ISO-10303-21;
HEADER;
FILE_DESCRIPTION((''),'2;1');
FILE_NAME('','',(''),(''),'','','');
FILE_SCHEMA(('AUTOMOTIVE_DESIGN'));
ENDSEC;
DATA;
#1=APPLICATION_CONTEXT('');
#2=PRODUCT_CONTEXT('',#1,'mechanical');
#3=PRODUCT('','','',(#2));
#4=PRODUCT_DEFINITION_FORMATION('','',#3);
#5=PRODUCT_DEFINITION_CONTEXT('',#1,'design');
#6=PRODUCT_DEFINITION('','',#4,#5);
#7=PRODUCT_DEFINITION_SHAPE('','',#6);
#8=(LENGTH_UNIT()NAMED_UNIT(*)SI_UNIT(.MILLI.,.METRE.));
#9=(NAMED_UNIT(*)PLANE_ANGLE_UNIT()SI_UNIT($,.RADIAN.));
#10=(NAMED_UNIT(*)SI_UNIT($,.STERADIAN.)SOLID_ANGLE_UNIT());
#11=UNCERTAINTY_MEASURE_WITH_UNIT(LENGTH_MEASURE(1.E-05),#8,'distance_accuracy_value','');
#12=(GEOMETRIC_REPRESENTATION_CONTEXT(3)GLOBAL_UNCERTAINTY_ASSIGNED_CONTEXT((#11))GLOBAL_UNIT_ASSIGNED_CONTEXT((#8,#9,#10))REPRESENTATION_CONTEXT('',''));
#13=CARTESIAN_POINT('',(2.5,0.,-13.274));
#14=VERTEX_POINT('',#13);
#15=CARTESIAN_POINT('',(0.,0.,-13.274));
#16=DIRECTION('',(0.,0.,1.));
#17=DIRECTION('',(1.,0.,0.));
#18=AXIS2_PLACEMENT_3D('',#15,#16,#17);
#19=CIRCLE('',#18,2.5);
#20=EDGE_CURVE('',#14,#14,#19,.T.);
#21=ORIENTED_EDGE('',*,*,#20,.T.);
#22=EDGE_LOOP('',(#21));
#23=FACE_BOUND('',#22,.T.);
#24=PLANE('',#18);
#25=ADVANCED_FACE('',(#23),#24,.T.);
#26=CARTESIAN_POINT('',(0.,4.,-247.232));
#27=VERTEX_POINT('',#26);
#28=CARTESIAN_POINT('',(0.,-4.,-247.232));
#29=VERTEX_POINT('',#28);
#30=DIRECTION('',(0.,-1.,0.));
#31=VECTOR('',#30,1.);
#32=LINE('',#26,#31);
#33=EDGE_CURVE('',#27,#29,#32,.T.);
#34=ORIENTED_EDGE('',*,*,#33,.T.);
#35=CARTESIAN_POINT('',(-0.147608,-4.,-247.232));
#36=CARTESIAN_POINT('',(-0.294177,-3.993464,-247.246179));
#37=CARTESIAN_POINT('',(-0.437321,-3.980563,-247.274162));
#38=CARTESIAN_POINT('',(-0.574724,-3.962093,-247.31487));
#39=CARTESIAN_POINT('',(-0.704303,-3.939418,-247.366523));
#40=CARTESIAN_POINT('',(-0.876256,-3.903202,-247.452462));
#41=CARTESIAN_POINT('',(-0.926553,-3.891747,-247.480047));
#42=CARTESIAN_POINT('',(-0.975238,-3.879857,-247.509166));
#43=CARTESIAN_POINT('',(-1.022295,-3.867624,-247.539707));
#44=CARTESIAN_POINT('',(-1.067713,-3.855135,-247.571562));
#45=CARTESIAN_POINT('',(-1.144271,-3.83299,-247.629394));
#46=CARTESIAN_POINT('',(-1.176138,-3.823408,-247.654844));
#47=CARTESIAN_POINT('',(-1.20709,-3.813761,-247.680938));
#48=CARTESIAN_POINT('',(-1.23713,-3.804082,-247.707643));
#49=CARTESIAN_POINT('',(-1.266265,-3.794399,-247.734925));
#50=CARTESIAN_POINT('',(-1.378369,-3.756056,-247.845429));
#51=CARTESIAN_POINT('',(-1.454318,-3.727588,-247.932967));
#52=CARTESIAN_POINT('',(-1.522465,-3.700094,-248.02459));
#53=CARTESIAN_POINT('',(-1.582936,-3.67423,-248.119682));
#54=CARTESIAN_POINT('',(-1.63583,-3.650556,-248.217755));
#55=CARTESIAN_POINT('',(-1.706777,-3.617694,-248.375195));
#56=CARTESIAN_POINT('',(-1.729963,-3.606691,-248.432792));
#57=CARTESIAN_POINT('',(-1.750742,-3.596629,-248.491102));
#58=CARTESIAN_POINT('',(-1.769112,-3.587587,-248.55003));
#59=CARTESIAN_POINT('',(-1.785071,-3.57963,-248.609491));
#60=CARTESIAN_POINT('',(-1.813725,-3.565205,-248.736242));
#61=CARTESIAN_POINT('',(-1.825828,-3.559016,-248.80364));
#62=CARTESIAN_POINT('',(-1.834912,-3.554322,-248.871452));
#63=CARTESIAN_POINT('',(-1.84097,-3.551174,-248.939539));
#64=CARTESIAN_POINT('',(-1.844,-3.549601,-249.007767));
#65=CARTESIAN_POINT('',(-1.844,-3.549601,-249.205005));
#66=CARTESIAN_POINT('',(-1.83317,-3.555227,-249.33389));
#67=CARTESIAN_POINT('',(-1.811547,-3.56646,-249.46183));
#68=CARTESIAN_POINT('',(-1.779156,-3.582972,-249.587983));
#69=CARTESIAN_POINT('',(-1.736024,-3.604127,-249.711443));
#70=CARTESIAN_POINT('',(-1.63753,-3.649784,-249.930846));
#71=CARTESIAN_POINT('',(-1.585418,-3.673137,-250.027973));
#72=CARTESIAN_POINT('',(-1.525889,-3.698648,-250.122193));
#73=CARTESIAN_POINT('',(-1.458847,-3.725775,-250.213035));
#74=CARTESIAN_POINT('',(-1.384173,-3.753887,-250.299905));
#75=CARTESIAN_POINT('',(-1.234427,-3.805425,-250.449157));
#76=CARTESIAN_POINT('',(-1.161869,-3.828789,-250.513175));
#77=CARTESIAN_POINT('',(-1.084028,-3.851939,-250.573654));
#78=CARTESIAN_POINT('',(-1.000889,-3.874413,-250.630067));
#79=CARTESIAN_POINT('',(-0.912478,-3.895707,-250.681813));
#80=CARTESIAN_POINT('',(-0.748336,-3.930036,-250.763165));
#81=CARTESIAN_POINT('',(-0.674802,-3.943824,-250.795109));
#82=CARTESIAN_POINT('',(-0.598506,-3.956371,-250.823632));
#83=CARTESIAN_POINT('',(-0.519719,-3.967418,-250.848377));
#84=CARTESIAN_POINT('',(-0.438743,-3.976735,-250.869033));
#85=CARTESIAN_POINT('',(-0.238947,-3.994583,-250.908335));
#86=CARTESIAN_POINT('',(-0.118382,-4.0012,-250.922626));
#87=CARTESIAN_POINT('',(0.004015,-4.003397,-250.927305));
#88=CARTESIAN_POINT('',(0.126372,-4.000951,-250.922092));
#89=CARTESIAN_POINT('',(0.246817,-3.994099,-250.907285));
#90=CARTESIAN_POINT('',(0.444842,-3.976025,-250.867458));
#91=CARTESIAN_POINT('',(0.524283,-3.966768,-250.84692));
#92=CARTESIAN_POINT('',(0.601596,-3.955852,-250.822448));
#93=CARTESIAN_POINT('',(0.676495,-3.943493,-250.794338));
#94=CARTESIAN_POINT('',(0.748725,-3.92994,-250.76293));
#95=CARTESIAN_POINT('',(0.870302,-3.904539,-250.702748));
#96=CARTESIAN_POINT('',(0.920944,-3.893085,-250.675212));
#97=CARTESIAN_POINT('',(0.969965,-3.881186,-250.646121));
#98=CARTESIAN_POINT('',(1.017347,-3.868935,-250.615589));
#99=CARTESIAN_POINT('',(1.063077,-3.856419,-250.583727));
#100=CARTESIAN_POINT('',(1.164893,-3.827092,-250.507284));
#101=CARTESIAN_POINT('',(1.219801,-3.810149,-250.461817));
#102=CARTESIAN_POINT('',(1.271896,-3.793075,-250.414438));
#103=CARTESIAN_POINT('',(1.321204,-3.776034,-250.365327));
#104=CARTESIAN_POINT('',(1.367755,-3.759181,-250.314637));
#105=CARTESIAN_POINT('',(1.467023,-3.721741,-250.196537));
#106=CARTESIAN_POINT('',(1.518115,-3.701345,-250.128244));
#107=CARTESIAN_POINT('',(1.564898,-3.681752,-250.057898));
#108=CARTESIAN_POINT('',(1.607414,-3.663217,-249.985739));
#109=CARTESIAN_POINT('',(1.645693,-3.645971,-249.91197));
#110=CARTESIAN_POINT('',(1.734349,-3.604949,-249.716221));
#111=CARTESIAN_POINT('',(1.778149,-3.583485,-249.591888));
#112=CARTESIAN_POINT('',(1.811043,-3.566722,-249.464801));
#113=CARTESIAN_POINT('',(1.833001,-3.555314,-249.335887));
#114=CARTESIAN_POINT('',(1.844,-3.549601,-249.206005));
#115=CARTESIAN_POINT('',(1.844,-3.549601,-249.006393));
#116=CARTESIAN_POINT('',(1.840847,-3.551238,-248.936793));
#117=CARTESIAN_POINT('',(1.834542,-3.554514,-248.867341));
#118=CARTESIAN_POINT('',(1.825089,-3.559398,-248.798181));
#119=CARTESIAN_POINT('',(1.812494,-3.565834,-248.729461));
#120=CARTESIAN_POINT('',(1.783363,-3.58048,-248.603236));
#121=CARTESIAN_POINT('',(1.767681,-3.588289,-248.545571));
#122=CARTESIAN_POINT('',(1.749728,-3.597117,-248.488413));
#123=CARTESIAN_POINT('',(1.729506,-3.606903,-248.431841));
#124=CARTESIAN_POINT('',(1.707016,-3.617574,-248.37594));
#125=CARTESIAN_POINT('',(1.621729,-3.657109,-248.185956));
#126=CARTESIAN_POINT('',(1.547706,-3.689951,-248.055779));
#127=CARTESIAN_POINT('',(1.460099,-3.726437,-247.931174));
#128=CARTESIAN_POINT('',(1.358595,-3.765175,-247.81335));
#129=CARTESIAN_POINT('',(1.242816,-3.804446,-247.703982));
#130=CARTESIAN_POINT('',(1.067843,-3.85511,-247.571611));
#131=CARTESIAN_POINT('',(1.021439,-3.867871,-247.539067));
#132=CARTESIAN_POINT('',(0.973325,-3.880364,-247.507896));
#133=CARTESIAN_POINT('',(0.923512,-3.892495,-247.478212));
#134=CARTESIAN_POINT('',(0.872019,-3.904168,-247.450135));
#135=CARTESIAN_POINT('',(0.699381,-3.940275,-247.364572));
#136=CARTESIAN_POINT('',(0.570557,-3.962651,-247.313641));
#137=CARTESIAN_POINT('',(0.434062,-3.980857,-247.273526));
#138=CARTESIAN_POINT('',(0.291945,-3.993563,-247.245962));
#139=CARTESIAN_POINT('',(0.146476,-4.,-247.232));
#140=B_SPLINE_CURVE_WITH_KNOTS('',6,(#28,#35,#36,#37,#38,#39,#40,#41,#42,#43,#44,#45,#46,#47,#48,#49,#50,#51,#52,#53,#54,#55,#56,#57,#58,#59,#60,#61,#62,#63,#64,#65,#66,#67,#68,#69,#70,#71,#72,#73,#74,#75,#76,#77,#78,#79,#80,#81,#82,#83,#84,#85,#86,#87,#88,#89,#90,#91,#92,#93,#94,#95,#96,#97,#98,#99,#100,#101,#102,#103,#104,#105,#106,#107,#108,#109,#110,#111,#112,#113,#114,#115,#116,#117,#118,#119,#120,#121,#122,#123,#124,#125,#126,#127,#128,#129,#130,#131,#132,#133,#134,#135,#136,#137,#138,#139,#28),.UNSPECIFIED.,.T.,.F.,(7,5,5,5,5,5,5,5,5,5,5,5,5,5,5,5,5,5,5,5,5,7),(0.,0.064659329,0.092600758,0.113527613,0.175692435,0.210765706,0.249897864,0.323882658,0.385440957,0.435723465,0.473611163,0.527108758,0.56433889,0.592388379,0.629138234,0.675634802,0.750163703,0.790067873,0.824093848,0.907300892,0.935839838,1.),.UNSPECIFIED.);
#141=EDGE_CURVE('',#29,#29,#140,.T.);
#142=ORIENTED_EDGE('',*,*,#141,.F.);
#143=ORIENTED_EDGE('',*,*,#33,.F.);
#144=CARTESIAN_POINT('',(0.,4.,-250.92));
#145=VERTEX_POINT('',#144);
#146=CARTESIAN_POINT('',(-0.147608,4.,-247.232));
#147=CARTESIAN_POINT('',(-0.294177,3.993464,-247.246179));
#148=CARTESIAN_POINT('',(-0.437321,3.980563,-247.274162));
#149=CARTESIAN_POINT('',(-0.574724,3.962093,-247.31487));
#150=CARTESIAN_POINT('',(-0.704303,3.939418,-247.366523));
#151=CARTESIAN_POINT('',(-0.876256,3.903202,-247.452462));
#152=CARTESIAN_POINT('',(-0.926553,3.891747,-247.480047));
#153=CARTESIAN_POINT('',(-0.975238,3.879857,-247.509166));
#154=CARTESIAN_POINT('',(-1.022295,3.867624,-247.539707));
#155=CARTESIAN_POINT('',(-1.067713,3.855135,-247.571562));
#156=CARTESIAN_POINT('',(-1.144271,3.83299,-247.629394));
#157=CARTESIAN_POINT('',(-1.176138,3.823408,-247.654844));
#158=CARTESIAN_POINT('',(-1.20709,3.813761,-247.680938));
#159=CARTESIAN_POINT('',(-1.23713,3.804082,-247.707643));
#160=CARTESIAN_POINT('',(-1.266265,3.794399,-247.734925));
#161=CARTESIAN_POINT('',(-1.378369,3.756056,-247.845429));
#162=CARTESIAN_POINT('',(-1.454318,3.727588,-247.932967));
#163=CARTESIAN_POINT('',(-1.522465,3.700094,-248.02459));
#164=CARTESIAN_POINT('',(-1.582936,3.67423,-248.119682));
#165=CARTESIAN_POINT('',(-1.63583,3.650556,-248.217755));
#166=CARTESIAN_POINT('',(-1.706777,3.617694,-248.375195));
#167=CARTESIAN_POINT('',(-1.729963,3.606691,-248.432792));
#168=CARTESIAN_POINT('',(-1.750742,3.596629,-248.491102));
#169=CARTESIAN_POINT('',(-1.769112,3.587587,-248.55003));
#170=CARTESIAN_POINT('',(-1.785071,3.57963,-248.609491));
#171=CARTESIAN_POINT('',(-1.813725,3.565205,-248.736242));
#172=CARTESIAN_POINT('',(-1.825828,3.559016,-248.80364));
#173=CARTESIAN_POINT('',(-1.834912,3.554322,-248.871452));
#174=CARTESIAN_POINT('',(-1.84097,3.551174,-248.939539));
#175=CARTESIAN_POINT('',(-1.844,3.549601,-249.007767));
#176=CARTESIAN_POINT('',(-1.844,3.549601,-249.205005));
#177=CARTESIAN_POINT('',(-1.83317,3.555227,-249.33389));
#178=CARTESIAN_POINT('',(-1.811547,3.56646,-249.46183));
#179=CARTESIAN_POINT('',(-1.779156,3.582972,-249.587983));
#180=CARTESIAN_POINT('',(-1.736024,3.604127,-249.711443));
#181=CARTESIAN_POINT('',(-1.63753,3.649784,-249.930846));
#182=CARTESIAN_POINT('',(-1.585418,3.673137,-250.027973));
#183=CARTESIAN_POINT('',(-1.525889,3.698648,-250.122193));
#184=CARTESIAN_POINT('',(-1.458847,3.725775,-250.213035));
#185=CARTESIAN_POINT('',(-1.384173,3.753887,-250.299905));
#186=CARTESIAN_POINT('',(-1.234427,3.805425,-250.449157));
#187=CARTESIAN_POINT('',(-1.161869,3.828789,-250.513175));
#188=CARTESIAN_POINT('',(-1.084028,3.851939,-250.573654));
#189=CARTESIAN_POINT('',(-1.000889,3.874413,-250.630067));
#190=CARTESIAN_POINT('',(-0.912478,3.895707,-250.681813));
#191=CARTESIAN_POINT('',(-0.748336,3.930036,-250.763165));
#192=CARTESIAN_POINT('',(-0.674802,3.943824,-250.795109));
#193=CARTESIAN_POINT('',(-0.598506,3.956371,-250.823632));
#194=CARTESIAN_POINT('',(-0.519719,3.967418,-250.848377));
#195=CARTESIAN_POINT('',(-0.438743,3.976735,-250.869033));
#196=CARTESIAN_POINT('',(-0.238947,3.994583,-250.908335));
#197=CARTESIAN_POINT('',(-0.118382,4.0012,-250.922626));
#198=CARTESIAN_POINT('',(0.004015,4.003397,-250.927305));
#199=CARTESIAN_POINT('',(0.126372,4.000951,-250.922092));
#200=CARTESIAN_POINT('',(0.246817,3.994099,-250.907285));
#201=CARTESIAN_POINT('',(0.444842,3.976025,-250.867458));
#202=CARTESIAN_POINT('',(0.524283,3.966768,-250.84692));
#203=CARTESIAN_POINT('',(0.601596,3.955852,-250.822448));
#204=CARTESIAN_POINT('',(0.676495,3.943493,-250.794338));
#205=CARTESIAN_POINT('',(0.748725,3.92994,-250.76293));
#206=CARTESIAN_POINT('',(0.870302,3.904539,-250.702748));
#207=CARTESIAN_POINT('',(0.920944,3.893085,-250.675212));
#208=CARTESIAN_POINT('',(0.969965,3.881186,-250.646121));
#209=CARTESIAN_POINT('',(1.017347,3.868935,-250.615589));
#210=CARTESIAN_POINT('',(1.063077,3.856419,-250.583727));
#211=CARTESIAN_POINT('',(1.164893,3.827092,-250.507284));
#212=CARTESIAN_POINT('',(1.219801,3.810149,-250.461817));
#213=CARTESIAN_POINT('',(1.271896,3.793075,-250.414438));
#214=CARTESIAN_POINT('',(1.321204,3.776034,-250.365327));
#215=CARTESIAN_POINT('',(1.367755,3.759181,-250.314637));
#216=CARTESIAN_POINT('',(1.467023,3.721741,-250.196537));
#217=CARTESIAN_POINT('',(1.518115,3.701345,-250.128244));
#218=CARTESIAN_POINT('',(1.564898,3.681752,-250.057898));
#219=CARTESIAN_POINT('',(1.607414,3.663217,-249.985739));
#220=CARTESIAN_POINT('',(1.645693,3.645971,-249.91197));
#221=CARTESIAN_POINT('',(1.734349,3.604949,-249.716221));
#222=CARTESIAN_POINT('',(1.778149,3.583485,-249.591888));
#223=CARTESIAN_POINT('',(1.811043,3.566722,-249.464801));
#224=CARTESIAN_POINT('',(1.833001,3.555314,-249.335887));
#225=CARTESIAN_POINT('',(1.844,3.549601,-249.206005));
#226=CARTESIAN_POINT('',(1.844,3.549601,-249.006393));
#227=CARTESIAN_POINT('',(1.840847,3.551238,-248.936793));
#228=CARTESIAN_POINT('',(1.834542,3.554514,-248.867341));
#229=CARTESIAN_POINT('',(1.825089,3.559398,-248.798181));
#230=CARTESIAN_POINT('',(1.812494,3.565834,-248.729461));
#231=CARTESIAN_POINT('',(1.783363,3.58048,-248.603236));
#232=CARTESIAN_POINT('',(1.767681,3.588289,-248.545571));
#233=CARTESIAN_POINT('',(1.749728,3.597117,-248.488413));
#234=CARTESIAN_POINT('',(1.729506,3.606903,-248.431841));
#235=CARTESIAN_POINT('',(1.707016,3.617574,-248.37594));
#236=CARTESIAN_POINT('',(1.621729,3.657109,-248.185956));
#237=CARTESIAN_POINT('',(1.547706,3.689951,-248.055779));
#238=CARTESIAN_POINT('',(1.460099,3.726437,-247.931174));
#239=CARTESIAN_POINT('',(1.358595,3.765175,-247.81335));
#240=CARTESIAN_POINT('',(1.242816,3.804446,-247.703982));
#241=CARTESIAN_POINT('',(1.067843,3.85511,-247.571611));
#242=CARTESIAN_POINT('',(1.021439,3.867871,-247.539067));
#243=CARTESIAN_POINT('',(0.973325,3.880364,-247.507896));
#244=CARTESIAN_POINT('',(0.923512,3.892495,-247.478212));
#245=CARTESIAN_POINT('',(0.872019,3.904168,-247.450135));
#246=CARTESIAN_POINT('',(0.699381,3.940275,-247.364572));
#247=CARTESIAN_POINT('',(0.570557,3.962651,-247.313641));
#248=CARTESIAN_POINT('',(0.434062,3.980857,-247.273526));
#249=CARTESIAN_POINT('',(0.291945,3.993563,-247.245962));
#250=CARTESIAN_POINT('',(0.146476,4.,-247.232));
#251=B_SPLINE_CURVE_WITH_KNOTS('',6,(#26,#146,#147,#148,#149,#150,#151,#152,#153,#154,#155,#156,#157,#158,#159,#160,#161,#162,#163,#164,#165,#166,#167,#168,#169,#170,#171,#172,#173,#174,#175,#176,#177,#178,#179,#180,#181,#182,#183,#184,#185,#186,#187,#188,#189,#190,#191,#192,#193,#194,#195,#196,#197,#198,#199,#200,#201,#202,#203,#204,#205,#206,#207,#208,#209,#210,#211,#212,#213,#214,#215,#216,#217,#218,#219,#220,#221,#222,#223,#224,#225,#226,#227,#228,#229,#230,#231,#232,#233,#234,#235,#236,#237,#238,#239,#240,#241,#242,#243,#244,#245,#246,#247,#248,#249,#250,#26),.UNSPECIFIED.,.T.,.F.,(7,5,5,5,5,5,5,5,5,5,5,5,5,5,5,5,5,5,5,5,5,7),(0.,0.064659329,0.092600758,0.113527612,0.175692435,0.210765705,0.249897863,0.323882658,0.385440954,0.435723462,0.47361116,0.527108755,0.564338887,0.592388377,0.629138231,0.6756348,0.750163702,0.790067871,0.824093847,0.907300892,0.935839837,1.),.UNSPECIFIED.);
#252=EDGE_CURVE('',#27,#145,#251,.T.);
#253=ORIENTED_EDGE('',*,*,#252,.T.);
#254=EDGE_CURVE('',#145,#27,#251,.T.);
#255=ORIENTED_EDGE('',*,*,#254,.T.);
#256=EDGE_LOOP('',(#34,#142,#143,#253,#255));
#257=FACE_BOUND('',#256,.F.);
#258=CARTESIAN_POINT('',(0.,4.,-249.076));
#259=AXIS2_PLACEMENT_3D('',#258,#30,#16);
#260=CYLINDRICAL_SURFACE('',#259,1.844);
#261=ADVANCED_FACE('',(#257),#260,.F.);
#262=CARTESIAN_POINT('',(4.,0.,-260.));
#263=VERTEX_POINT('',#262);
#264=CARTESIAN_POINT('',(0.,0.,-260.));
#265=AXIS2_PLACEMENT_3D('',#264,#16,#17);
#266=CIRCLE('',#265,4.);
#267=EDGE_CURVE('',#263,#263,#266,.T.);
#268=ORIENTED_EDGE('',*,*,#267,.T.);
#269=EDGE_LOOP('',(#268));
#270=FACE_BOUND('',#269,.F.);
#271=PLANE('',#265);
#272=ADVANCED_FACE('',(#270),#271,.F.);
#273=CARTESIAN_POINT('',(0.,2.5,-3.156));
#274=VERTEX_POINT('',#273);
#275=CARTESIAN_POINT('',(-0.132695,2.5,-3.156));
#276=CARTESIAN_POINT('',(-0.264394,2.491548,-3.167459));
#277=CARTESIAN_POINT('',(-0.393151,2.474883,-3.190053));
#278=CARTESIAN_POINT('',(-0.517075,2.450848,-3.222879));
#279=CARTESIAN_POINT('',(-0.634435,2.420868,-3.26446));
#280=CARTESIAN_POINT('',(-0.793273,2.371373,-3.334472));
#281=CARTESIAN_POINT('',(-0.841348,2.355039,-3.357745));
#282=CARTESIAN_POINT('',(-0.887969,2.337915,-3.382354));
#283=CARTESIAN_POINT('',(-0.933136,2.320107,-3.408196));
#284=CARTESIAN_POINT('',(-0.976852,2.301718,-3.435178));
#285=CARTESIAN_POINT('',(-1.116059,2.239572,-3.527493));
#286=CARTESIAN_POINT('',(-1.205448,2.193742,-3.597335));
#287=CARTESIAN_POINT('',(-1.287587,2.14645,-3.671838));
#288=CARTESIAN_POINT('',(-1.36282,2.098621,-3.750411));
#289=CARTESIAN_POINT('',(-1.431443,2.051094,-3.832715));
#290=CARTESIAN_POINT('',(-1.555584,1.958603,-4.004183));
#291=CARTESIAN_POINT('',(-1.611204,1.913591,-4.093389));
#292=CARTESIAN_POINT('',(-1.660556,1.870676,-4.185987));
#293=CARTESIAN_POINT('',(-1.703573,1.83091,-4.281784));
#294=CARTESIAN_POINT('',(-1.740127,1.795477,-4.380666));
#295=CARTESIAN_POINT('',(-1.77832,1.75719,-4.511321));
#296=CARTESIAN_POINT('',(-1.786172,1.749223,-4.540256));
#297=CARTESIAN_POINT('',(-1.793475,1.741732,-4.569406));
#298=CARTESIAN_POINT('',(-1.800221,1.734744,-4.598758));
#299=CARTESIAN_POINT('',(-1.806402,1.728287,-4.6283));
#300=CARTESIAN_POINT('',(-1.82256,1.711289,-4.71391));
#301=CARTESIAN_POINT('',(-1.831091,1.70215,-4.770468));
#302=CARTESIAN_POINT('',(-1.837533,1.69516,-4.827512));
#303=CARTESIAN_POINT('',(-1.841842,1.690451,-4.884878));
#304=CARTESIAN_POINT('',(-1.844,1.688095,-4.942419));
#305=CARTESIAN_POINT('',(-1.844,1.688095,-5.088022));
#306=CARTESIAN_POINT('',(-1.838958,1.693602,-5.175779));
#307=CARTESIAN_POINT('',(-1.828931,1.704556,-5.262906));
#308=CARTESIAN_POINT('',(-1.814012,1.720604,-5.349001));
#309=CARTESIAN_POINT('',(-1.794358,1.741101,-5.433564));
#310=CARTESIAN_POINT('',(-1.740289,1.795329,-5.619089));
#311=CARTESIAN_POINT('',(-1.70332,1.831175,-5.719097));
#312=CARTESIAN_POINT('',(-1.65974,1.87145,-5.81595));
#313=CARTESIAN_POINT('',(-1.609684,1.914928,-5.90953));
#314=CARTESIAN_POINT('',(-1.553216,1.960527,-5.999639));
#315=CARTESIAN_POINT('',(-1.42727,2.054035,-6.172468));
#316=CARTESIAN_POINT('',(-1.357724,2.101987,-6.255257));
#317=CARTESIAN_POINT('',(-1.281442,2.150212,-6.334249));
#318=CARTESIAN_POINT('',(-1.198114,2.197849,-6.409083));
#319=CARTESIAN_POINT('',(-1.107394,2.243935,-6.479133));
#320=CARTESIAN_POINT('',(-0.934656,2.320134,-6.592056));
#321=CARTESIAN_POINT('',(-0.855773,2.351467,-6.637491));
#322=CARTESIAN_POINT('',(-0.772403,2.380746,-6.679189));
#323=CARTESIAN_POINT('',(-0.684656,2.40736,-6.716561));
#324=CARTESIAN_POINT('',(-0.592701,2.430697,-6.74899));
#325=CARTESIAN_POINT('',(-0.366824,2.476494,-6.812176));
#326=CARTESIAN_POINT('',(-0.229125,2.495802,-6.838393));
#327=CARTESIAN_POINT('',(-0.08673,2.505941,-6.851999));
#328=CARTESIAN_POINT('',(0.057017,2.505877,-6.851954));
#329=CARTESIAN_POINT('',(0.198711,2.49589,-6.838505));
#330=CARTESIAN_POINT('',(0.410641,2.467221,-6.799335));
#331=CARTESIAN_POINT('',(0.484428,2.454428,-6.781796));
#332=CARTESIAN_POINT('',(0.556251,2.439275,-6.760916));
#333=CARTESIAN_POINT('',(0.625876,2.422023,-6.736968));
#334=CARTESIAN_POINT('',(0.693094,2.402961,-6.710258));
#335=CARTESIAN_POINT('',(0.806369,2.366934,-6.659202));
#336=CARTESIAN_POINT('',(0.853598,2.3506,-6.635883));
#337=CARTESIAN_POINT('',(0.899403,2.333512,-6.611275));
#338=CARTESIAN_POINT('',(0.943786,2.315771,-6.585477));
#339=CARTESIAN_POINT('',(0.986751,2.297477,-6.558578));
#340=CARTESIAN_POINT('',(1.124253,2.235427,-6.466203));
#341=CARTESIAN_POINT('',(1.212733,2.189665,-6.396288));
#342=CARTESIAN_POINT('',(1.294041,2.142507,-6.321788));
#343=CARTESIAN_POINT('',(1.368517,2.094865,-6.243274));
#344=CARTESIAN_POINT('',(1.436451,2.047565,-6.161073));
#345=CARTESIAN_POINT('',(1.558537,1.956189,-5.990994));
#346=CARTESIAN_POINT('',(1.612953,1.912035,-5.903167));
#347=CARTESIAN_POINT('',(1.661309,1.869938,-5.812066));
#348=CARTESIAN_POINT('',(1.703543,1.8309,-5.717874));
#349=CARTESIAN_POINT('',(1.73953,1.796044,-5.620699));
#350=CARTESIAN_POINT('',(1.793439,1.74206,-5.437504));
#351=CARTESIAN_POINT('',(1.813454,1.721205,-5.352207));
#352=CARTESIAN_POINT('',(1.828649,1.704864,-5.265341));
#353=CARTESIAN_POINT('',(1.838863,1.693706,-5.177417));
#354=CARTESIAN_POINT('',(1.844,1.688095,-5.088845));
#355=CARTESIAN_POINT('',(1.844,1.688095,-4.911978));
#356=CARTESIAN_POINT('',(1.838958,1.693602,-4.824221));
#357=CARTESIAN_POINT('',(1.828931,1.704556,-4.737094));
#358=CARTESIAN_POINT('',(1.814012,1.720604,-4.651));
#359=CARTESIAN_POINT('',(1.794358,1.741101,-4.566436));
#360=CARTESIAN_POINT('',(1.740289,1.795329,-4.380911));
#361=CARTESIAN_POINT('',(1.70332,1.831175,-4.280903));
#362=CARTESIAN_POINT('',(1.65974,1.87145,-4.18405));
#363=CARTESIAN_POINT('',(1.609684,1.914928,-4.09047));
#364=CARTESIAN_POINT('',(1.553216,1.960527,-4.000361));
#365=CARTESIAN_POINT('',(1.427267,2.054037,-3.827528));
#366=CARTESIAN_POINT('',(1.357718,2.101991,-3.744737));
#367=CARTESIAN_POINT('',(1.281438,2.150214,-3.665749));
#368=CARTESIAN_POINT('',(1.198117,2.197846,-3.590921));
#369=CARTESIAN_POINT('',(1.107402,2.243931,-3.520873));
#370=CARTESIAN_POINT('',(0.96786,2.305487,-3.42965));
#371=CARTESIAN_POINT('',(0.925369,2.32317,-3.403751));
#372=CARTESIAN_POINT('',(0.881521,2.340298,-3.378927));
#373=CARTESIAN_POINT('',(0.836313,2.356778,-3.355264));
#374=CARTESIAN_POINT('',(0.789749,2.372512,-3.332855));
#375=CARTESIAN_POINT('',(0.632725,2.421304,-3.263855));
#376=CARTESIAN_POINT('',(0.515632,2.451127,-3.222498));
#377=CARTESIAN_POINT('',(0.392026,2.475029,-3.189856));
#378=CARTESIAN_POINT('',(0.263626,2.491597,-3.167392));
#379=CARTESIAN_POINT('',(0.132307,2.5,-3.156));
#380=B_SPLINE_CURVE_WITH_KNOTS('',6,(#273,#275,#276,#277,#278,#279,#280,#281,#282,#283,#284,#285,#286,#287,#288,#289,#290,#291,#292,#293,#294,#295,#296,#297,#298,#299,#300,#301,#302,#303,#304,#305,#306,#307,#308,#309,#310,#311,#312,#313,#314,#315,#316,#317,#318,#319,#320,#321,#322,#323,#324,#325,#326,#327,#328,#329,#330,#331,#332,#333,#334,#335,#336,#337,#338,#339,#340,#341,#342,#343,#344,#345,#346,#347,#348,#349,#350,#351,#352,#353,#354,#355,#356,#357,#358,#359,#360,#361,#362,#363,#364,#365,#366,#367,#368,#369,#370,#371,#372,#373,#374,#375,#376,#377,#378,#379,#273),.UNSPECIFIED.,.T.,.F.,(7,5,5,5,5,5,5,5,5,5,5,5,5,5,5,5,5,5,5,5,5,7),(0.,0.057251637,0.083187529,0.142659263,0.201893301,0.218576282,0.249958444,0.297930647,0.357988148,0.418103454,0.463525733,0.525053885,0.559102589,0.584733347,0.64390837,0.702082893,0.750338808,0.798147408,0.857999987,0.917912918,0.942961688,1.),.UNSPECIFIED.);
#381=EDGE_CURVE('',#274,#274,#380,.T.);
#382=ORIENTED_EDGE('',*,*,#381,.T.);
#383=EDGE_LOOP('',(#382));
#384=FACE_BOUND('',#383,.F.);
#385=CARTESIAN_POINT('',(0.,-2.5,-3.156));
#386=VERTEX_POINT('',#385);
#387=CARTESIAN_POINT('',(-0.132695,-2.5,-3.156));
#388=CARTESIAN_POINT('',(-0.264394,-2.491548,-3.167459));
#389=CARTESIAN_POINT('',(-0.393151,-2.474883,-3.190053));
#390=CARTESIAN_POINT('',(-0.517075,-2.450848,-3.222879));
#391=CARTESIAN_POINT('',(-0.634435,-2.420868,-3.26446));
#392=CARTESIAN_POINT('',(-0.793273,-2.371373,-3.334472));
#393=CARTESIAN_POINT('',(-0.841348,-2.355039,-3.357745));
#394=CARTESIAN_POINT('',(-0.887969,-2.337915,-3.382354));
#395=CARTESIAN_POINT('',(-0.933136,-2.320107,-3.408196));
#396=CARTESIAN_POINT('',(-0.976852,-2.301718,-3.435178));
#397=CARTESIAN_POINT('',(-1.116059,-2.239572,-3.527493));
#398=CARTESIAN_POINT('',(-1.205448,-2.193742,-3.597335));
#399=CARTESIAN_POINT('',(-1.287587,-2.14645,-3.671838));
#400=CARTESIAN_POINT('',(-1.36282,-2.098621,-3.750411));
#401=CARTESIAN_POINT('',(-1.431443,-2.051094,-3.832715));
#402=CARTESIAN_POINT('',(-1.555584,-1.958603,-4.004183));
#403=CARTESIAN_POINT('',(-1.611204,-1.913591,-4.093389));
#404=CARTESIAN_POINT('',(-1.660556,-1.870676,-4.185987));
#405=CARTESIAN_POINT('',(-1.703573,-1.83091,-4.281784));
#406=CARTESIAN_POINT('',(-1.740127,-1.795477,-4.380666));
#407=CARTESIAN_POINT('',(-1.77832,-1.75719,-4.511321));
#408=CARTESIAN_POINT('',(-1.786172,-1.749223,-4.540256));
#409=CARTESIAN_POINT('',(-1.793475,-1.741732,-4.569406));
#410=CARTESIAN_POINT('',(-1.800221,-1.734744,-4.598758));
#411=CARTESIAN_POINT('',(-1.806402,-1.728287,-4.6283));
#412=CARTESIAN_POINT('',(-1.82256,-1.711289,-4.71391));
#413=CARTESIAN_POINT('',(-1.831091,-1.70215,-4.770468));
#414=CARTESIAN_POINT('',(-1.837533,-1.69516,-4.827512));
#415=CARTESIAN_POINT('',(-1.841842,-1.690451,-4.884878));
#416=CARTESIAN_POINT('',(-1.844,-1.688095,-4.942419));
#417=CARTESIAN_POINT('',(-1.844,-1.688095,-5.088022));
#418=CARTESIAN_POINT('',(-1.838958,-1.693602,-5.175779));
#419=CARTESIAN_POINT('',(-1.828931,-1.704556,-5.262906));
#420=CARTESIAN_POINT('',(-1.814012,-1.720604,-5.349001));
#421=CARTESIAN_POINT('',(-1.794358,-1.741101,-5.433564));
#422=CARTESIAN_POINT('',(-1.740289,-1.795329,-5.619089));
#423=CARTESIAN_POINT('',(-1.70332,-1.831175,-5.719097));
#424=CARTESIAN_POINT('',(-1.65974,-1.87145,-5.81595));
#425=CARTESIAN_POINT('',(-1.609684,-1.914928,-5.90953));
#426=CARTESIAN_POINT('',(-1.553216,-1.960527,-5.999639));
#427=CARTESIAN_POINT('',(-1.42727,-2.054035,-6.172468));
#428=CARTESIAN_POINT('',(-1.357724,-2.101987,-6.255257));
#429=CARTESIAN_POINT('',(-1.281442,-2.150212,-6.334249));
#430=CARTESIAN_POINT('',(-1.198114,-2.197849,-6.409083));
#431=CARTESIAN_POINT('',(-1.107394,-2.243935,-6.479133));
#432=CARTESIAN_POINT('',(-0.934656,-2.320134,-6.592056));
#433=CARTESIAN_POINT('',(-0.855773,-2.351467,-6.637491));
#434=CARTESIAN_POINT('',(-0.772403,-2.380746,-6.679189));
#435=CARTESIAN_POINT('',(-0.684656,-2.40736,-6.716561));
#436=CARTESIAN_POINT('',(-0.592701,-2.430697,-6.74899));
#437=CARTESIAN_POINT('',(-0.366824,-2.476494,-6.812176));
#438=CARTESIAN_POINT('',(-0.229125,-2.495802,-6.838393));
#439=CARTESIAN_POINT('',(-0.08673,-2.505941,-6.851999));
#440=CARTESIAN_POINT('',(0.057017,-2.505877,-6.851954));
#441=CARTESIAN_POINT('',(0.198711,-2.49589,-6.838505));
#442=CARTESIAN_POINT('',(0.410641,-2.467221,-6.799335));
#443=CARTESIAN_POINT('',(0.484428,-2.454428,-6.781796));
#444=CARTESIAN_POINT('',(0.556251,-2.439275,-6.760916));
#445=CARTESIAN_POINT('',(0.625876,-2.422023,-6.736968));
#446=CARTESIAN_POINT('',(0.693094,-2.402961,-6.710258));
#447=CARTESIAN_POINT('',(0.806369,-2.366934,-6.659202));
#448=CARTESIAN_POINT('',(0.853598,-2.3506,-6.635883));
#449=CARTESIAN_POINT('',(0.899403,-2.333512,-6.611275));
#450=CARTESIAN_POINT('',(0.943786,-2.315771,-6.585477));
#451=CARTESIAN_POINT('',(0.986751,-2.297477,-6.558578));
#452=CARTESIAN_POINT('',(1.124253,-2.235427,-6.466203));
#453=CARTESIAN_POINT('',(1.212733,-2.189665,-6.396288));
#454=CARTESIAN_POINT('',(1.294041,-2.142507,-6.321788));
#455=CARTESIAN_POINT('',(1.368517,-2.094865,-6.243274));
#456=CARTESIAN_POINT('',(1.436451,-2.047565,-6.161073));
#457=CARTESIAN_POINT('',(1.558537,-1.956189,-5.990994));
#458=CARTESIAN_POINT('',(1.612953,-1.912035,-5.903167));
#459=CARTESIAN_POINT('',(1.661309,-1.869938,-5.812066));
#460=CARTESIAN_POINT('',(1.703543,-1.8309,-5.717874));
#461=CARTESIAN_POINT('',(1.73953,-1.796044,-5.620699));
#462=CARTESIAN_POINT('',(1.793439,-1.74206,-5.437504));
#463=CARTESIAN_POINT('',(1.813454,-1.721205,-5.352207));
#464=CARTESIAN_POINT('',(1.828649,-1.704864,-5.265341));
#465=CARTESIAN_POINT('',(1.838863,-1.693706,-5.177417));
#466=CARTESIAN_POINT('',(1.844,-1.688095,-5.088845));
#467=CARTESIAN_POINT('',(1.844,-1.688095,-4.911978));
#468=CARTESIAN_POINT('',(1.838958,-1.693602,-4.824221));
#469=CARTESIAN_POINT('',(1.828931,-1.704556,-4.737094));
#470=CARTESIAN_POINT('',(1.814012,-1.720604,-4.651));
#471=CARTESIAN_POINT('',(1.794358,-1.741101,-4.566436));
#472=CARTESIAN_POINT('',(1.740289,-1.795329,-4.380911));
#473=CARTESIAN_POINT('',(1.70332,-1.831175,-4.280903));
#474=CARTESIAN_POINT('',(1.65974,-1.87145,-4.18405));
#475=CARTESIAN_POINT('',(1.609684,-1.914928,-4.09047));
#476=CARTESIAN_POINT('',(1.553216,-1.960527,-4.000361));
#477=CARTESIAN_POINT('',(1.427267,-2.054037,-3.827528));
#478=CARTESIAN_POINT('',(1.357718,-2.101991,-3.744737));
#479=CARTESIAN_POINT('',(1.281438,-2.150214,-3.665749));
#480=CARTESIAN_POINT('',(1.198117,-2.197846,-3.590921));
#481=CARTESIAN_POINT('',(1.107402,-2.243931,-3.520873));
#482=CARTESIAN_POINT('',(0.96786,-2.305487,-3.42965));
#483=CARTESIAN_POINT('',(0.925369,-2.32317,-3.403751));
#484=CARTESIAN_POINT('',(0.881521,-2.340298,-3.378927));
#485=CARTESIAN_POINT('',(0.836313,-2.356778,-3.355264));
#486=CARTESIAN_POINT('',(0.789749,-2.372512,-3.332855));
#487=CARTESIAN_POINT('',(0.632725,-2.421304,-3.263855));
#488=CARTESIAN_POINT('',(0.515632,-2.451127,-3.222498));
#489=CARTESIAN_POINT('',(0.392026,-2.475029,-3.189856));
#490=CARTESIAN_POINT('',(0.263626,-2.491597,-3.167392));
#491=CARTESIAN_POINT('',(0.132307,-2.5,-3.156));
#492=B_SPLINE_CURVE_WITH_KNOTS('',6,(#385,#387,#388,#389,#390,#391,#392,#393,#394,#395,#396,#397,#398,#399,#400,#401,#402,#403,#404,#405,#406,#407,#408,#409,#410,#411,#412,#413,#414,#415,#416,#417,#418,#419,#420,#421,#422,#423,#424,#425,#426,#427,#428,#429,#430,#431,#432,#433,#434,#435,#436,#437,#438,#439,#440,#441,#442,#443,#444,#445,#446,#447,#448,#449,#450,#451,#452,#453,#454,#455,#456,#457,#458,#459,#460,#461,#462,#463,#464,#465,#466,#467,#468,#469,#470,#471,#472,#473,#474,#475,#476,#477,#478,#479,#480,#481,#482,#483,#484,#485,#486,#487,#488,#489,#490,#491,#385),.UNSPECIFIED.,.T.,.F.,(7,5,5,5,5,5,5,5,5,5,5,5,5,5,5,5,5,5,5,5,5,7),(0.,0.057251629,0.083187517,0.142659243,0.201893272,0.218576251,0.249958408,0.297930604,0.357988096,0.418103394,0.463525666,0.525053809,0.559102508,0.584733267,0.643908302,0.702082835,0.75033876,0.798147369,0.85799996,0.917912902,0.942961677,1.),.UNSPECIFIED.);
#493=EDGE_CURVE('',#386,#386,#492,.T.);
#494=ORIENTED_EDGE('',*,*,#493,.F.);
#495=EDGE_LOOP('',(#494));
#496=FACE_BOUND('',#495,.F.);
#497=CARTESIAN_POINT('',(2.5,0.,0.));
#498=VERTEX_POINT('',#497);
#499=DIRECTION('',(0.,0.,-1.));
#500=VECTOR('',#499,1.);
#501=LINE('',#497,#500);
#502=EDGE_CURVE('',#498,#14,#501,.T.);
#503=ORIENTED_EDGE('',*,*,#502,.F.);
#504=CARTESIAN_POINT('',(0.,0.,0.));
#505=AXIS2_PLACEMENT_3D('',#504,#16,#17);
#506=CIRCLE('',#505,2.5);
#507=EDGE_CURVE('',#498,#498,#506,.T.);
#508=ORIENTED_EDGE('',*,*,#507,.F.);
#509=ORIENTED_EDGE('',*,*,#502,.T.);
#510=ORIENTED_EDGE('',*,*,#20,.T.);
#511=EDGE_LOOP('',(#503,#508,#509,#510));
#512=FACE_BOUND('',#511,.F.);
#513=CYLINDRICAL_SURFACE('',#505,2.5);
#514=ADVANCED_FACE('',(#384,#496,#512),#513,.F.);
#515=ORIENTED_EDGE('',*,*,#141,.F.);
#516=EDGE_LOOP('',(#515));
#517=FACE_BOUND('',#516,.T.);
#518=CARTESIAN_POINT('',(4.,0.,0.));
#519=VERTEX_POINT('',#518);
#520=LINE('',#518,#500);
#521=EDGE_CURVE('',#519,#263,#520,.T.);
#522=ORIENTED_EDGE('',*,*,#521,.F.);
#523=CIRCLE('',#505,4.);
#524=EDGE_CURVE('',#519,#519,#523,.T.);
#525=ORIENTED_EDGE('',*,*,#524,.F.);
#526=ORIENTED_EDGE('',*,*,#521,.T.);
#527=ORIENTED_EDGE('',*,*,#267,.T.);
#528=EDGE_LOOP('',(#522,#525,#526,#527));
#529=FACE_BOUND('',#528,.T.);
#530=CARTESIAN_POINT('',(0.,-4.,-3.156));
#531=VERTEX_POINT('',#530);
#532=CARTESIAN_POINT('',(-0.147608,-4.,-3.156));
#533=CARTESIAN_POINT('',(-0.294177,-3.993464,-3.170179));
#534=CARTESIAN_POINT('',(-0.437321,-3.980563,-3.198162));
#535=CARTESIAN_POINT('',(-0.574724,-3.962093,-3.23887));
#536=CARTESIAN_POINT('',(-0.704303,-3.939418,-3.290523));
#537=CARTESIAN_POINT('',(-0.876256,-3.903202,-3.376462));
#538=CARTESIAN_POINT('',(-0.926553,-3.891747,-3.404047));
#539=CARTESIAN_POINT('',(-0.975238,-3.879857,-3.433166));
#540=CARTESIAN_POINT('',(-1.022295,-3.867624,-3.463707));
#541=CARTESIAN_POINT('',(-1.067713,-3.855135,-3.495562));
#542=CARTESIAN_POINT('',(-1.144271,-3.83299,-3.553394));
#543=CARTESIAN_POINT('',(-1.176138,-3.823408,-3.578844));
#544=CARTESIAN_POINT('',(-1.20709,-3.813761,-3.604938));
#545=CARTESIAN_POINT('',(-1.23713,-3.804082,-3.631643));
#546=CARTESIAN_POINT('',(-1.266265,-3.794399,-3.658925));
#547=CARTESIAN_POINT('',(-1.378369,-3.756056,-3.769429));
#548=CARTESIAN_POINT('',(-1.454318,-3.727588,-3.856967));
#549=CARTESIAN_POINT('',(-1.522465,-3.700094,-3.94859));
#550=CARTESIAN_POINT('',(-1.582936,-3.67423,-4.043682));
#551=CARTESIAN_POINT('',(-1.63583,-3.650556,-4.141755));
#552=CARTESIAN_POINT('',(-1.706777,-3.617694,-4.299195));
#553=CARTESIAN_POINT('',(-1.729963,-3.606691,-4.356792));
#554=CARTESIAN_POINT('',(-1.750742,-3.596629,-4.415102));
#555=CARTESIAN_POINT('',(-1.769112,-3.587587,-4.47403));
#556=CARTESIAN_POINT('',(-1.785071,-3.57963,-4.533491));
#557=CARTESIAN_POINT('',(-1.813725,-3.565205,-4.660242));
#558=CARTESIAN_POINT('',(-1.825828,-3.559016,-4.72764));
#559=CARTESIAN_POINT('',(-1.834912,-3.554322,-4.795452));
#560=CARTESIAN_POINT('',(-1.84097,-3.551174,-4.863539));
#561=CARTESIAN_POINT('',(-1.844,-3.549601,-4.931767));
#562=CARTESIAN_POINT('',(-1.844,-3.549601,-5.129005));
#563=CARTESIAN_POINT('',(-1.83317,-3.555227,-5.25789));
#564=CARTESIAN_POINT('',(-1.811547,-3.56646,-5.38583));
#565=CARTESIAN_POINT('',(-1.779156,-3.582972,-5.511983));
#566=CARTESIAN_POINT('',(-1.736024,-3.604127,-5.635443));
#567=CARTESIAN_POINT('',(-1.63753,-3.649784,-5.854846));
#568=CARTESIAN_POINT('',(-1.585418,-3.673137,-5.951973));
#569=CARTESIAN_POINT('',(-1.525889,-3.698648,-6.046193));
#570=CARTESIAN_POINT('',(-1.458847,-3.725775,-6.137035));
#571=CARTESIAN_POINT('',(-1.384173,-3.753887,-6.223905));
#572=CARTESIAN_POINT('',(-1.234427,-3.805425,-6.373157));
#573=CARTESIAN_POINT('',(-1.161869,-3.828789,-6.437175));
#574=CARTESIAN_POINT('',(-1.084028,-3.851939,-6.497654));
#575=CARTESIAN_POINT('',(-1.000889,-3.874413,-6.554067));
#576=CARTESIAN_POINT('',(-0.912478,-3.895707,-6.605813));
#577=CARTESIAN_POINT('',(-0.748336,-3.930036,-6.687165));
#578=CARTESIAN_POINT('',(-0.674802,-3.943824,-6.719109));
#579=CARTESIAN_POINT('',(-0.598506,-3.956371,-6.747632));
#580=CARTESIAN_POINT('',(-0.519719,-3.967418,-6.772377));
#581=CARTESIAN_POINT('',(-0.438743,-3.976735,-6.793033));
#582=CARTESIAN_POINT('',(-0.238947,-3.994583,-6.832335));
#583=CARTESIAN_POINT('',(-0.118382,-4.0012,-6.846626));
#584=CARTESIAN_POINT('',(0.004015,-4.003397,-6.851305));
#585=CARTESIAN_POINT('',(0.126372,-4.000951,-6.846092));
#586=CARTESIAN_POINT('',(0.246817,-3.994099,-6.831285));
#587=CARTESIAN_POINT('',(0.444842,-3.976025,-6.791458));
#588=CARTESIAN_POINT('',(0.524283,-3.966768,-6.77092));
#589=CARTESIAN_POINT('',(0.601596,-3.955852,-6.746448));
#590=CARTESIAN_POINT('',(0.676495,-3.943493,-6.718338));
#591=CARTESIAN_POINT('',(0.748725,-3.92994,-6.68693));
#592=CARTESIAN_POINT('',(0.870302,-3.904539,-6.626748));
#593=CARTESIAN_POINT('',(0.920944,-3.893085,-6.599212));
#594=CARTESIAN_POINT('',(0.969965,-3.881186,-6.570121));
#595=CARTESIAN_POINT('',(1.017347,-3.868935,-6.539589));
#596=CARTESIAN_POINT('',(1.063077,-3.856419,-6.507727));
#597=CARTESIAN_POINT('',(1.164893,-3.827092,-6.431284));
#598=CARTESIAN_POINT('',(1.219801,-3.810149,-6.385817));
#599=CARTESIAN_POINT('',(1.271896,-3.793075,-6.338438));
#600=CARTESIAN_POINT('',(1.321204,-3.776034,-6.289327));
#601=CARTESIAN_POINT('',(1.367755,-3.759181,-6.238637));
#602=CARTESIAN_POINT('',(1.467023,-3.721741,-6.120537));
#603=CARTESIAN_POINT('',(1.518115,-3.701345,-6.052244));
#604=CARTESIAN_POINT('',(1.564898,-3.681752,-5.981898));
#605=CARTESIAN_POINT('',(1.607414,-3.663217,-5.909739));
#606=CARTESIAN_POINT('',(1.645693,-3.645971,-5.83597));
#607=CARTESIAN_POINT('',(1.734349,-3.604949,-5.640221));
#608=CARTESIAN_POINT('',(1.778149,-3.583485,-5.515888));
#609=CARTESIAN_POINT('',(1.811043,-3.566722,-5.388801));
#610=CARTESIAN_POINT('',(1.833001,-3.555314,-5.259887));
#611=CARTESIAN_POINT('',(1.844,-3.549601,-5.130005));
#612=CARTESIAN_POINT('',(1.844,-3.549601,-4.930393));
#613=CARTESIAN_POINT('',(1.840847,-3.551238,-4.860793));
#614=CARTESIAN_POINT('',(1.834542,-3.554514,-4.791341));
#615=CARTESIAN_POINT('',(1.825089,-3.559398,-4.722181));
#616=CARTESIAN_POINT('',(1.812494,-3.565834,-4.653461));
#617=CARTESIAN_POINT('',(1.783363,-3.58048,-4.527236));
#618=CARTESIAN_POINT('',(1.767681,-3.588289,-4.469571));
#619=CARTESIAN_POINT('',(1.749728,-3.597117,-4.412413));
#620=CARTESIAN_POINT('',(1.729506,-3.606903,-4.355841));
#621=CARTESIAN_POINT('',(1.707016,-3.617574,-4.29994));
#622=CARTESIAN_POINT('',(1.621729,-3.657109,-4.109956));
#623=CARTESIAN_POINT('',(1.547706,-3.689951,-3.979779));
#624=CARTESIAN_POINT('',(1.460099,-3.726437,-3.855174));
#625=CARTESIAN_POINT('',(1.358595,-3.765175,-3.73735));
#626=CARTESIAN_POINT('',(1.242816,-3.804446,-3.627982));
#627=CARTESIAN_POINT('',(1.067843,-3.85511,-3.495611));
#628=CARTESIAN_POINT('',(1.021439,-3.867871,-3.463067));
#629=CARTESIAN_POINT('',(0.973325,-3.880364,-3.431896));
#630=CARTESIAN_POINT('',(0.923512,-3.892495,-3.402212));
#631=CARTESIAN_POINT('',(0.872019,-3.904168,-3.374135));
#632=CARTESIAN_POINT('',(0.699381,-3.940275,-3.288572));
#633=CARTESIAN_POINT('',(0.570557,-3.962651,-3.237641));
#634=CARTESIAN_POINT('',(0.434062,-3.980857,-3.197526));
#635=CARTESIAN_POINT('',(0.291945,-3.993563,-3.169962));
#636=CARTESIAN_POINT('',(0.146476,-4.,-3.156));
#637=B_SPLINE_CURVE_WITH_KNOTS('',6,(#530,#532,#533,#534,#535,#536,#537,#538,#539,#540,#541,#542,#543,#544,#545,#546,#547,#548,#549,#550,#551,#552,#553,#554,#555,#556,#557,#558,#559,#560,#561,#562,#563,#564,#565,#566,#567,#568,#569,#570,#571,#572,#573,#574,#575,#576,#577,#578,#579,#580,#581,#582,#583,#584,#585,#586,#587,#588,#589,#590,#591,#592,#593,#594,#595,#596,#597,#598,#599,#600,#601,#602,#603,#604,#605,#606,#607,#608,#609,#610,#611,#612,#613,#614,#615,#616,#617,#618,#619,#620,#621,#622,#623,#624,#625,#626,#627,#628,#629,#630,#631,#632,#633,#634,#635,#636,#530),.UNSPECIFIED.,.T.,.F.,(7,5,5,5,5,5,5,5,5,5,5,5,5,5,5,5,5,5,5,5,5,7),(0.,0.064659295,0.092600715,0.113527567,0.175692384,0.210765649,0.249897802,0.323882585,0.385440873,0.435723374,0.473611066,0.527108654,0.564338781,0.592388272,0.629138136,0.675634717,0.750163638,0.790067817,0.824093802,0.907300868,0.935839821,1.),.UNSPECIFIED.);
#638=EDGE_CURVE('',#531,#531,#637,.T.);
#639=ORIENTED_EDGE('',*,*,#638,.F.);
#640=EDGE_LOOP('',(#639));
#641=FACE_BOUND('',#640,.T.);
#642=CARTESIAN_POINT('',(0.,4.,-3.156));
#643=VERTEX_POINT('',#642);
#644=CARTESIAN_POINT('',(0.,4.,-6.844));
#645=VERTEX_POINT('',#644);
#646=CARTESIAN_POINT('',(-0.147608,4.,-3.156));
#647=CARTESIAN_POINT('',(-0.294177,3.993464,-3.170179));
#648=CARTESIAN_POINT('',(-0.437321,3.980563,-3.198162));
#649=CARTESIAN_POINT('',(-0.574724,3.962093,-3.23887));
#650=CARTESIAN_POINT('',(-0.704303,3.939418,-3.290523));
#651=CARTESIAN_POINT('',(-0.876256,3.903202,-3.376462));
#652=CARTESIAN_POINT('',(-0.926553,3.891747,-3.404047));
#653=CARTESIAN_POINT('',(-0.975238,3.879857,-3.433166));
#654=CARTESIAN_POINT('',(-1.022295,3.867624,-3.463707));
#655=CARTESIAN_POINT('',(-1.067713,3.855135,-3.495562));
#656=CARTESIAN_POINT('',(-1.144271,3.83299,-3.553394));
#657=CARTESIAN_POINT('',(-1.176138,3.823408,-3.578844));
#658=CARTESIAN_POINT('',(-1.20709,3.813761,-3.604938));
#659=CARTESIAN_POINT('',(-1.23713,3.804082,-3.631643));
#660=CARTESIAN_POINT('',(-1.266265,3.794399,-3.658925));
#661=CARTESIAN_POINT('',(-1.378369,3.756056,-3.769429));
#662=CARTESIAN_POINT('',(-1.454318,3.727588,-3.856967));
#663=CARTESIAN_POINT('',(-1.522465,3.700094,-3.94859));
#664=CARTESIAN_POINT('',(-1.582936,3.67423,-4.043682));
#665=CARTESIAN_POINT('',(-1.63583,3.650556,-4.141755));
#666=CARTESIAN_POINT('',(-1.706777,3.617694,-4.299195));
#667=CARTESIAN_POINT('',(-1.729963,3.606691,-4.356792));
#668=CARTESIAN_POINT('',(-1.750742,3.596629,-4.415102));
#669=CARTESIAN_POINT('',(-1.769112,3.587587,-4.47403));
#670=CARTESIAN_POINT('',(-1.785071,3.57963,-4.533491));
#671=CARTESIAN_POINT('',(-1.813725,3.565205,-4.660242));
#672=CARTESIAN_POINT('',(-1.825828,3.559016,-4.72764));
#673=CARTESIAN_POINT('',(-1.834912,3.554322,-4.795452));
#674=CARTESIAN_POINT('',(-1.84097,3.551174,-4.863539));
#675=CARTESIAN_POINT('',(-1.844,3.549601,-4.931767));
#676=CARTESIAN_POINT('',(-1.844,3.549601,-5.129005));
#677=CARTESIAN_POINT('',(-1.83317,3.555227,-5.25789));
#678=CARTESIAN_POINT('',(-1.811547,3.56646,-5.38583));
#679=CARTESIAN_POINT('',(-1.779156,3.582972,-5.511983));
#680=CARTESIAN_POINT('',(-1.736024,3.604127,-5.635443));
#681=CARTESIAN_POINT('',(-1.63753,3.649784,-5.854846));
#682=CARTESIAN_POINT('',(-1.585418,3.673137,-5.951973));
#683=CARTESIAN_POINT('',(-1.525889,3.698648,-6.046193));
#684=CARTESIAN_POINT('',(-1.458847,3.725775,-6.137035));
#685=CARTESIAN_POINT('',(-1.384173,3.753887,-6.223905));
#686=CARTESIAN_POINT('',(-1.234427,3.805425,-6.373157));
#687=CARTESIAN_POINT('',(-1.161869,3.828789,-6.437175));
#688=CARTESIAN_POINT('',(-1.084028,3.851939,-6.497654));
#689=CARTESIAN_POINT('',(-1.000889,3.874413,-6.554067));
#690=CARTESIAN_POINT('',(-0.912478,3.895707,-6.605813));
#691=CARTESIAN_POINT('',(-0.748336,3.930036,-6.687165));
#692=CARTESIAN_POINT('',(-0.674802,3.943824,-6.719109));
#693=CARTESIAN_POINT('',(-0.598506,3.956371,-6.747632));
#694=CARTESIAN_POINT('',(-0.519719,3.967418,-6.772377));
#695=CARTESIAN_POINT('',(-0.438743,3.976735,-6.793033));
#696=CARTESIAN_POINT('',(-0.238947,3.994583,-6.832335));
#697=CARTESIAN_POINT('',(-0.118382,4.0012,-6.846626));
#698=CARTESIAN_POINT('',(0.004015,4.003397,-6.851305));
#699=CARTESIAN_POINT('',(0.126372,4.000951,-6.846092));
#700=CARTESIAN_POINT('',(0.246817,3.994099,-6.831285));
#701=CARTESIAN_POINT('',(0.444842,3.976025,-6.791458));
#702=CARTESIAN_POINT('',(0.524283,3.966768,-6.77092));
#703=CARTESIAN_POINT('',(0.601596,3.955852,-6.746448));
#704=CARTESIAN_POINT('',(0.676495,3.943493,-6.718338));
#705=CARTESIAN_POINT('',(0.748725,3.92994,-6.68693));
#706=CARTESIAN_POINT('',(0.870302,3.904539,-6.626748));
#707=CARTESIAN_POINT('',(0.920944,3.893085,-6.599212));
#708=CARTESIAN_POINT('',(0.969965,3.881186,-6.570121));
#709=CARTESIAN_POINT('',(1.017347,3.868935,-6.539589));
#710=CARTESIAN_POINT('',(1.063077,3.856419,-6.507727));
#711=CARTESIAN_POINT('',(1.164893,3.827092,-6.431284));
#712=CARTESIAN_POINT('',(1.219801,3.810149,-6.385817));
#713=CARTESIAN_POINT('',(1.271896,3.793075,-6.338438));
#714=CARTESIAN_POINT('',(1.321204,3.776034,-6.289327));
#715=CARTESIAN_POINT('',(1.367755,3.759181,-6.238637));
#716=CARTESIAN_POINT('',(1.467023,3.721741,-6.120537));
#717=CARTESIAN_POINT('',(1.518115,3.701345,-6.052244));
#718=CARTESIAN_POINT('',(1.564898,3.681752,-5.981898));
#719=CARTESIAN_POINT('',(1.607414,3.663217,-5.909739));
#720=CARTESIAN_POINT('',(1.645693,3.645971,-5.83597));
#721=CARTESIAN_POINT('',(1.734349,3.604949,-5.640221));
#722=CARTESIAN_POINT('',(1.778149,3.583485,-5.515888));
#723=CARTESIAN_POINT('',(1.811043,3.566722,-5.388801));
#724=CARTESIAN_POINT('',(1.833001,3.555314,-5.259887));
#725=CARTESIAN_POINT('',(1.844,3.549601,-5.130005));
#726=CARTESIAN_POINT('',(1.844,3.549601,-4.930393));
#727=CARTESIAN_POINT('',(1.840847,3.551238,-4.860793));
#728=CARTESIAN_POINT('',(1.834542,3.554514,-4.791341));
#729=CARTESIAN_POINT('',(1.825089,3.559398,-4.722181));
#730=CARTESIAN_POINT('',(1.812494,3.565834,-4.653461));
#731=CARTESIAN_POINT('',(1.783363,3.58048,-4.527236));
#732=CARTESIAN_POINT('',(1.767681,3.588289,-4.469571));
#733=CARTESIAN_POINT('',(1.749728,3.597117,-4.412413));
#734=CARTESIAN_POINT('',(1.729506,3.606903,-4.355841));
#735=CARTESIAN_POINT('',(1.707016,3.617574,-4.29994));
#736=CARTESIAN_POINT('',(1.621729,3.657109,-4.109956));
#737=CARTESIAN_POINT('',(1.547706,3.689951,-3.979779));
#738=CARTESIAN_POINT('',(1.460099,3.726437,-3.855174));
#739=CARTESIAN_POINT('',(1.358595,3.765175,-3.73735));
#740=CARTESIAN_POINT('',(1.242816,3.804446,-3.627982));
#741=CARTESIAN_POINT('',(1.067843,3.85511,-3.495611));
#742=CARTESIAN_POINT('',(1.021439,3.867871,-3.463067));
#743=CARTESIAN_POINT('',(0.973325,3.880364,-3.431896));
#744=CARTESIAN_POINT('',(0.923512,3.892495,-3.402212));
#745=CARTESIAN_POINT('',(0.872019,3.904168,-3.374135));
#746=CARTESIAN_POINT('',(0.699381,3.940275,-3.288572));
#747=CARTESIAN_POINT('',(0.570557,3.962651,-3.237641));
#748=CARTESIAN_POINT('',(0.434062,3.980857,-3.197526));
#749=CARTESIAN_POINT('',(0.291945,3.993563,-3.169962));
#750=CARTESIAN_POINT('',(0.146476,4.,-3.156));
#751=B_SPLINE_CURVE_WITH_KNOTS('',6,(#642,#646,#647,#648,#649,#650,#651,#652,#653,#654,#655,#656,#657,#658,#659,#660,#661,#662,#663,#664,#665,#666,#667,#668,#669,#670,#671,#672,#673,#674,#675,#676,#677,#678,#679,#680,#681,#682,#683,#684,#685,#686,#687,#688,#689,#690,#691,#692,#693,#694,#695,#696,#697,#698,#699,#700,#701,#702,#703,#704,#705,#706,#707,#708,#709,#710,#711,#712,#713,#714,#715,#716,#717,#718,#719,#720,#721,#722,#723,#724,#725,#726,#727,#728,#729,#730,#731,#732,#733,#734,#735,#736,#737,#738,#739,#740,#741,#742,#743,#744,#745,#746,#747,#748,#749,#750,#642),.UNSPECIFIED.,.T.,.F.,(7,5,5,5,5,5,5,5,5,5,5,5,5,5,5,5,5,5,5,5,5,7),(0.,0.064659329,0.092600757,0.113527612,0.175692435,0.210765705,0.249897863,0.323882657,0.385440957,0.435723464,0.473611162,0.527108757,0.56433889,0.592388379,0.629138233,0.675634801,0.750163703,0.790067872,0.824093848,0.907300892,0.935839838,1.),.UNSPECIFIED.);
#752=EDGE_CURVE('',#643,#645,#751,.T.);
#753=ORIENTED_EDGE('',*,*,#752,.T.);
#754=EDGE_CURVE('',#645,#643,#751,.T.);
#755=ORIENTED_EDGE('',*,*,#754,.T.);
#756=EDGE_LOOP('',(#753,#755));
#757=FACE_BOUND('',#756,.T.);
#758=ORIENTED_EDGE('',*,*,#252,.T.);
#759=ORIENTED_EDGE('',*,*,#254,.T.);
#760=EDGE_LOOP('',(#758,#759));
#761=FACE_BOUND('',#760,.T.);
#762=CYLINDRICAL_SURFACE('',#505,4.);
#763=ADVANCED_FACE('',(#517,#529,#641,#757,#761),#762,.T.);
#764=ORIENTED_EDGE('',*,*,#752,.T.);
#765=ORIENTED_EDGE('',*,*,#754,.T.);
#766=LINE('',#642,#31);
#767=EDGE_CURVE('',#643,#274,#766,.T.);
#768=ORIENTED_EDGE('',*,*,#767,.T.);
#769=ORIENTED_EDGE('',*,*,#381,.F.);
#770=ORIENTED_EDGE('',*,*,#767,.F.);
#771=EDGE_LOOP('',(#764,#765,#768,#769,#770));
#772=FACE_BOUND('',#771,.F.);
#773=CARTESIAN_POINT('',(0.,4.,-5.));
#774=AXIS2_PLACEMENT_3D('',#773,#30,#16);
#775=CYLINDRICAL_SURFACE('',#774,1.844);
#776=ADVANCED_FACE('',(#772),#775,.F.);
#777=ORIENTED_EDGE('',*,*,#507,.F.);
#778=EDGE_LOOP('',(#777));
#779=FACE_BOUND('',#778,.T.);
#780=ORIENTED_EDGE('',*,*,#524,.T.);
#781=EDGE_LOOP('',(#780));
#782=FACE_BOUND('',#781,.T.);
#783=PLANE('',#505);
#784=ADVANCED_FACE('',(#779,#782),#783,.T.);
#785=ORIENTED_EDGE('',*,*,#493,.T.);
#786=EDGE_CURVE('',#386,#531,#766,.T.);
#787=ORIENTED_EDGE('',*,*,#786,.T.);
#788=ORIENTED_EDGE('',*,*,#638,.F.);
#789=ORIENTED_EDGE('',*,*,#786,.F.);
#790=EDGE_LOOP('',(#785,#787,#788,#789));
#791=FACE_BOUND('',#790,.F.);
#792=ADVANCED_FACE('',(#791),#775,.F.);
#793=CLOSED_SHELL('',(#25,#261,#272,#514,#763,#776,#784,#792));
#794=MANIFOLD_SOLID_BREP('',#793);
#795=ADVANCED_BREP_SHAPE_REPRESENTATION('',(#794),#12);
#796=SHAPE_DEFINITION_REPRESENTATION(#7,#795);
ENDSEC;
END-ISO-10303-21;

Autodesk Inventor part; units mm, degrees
ref_plane "YZ Plane" through (0, 0, 0) normal (1, 0, 0) x (0, 1, 0)
ref_plane "XY Plane" through (0, 0, 0) normal (0, 0, 1) x (1, 0, 0)
sketch "Sketch1" plane through (0, 0, 0) normal (0, 0, 1) x (1, 0, 0)
  circle A0 centre (0, 0) radius 4
  dimension "d0" = 8
extrude "Extrusion1" add sketch "Sketch1" against normal blind 260
ref_plane "Work Plane1" through (0, 4, 0) normal (0, 1, 0) x (-1, 0, 0)
sketch "Sketch2" plane through (0, 4, 0) normal (0, 1, 0) x (-1, 0, 0)
  line L0 (-4, -260) -> (4, -260) construction
  line L1 (4, 0) -> (-4, 0) construction
  point P0 (0, 0)
  point P1 (0, -5)
  dimension "d11" = 5
hole "Hole1" at (0, 4, -5) direction (0, -1, 0) diameter 3.688 end through all
sketch "Sketch3" plane through (0, 4, 0) normal (0, 1, 0) x (-1, 0, 0)
  line L0 (-4, -260) -> (4, -260) construction
  line L1 (0, -260) -> (0, -249.076) construction
  point P0 (0, 0)
  dimension "d12" = 10.924
hole "Hole2" at (0, 4, -249.076) direction (0, -1, 0) diameter 3.688 end through all
sketch "Sketch4" plane through (0, 0, 0) normal (0, 0, 1) x (1, 0, 0)
  circle A0 centre (0, 0) radius 2.5
  dimension "d20" = 5
extrude "Extrusion2" cut sketch "Sketch4" against normal blind 13.274
properties part number "driveshaft" material "Steel, Mild"
